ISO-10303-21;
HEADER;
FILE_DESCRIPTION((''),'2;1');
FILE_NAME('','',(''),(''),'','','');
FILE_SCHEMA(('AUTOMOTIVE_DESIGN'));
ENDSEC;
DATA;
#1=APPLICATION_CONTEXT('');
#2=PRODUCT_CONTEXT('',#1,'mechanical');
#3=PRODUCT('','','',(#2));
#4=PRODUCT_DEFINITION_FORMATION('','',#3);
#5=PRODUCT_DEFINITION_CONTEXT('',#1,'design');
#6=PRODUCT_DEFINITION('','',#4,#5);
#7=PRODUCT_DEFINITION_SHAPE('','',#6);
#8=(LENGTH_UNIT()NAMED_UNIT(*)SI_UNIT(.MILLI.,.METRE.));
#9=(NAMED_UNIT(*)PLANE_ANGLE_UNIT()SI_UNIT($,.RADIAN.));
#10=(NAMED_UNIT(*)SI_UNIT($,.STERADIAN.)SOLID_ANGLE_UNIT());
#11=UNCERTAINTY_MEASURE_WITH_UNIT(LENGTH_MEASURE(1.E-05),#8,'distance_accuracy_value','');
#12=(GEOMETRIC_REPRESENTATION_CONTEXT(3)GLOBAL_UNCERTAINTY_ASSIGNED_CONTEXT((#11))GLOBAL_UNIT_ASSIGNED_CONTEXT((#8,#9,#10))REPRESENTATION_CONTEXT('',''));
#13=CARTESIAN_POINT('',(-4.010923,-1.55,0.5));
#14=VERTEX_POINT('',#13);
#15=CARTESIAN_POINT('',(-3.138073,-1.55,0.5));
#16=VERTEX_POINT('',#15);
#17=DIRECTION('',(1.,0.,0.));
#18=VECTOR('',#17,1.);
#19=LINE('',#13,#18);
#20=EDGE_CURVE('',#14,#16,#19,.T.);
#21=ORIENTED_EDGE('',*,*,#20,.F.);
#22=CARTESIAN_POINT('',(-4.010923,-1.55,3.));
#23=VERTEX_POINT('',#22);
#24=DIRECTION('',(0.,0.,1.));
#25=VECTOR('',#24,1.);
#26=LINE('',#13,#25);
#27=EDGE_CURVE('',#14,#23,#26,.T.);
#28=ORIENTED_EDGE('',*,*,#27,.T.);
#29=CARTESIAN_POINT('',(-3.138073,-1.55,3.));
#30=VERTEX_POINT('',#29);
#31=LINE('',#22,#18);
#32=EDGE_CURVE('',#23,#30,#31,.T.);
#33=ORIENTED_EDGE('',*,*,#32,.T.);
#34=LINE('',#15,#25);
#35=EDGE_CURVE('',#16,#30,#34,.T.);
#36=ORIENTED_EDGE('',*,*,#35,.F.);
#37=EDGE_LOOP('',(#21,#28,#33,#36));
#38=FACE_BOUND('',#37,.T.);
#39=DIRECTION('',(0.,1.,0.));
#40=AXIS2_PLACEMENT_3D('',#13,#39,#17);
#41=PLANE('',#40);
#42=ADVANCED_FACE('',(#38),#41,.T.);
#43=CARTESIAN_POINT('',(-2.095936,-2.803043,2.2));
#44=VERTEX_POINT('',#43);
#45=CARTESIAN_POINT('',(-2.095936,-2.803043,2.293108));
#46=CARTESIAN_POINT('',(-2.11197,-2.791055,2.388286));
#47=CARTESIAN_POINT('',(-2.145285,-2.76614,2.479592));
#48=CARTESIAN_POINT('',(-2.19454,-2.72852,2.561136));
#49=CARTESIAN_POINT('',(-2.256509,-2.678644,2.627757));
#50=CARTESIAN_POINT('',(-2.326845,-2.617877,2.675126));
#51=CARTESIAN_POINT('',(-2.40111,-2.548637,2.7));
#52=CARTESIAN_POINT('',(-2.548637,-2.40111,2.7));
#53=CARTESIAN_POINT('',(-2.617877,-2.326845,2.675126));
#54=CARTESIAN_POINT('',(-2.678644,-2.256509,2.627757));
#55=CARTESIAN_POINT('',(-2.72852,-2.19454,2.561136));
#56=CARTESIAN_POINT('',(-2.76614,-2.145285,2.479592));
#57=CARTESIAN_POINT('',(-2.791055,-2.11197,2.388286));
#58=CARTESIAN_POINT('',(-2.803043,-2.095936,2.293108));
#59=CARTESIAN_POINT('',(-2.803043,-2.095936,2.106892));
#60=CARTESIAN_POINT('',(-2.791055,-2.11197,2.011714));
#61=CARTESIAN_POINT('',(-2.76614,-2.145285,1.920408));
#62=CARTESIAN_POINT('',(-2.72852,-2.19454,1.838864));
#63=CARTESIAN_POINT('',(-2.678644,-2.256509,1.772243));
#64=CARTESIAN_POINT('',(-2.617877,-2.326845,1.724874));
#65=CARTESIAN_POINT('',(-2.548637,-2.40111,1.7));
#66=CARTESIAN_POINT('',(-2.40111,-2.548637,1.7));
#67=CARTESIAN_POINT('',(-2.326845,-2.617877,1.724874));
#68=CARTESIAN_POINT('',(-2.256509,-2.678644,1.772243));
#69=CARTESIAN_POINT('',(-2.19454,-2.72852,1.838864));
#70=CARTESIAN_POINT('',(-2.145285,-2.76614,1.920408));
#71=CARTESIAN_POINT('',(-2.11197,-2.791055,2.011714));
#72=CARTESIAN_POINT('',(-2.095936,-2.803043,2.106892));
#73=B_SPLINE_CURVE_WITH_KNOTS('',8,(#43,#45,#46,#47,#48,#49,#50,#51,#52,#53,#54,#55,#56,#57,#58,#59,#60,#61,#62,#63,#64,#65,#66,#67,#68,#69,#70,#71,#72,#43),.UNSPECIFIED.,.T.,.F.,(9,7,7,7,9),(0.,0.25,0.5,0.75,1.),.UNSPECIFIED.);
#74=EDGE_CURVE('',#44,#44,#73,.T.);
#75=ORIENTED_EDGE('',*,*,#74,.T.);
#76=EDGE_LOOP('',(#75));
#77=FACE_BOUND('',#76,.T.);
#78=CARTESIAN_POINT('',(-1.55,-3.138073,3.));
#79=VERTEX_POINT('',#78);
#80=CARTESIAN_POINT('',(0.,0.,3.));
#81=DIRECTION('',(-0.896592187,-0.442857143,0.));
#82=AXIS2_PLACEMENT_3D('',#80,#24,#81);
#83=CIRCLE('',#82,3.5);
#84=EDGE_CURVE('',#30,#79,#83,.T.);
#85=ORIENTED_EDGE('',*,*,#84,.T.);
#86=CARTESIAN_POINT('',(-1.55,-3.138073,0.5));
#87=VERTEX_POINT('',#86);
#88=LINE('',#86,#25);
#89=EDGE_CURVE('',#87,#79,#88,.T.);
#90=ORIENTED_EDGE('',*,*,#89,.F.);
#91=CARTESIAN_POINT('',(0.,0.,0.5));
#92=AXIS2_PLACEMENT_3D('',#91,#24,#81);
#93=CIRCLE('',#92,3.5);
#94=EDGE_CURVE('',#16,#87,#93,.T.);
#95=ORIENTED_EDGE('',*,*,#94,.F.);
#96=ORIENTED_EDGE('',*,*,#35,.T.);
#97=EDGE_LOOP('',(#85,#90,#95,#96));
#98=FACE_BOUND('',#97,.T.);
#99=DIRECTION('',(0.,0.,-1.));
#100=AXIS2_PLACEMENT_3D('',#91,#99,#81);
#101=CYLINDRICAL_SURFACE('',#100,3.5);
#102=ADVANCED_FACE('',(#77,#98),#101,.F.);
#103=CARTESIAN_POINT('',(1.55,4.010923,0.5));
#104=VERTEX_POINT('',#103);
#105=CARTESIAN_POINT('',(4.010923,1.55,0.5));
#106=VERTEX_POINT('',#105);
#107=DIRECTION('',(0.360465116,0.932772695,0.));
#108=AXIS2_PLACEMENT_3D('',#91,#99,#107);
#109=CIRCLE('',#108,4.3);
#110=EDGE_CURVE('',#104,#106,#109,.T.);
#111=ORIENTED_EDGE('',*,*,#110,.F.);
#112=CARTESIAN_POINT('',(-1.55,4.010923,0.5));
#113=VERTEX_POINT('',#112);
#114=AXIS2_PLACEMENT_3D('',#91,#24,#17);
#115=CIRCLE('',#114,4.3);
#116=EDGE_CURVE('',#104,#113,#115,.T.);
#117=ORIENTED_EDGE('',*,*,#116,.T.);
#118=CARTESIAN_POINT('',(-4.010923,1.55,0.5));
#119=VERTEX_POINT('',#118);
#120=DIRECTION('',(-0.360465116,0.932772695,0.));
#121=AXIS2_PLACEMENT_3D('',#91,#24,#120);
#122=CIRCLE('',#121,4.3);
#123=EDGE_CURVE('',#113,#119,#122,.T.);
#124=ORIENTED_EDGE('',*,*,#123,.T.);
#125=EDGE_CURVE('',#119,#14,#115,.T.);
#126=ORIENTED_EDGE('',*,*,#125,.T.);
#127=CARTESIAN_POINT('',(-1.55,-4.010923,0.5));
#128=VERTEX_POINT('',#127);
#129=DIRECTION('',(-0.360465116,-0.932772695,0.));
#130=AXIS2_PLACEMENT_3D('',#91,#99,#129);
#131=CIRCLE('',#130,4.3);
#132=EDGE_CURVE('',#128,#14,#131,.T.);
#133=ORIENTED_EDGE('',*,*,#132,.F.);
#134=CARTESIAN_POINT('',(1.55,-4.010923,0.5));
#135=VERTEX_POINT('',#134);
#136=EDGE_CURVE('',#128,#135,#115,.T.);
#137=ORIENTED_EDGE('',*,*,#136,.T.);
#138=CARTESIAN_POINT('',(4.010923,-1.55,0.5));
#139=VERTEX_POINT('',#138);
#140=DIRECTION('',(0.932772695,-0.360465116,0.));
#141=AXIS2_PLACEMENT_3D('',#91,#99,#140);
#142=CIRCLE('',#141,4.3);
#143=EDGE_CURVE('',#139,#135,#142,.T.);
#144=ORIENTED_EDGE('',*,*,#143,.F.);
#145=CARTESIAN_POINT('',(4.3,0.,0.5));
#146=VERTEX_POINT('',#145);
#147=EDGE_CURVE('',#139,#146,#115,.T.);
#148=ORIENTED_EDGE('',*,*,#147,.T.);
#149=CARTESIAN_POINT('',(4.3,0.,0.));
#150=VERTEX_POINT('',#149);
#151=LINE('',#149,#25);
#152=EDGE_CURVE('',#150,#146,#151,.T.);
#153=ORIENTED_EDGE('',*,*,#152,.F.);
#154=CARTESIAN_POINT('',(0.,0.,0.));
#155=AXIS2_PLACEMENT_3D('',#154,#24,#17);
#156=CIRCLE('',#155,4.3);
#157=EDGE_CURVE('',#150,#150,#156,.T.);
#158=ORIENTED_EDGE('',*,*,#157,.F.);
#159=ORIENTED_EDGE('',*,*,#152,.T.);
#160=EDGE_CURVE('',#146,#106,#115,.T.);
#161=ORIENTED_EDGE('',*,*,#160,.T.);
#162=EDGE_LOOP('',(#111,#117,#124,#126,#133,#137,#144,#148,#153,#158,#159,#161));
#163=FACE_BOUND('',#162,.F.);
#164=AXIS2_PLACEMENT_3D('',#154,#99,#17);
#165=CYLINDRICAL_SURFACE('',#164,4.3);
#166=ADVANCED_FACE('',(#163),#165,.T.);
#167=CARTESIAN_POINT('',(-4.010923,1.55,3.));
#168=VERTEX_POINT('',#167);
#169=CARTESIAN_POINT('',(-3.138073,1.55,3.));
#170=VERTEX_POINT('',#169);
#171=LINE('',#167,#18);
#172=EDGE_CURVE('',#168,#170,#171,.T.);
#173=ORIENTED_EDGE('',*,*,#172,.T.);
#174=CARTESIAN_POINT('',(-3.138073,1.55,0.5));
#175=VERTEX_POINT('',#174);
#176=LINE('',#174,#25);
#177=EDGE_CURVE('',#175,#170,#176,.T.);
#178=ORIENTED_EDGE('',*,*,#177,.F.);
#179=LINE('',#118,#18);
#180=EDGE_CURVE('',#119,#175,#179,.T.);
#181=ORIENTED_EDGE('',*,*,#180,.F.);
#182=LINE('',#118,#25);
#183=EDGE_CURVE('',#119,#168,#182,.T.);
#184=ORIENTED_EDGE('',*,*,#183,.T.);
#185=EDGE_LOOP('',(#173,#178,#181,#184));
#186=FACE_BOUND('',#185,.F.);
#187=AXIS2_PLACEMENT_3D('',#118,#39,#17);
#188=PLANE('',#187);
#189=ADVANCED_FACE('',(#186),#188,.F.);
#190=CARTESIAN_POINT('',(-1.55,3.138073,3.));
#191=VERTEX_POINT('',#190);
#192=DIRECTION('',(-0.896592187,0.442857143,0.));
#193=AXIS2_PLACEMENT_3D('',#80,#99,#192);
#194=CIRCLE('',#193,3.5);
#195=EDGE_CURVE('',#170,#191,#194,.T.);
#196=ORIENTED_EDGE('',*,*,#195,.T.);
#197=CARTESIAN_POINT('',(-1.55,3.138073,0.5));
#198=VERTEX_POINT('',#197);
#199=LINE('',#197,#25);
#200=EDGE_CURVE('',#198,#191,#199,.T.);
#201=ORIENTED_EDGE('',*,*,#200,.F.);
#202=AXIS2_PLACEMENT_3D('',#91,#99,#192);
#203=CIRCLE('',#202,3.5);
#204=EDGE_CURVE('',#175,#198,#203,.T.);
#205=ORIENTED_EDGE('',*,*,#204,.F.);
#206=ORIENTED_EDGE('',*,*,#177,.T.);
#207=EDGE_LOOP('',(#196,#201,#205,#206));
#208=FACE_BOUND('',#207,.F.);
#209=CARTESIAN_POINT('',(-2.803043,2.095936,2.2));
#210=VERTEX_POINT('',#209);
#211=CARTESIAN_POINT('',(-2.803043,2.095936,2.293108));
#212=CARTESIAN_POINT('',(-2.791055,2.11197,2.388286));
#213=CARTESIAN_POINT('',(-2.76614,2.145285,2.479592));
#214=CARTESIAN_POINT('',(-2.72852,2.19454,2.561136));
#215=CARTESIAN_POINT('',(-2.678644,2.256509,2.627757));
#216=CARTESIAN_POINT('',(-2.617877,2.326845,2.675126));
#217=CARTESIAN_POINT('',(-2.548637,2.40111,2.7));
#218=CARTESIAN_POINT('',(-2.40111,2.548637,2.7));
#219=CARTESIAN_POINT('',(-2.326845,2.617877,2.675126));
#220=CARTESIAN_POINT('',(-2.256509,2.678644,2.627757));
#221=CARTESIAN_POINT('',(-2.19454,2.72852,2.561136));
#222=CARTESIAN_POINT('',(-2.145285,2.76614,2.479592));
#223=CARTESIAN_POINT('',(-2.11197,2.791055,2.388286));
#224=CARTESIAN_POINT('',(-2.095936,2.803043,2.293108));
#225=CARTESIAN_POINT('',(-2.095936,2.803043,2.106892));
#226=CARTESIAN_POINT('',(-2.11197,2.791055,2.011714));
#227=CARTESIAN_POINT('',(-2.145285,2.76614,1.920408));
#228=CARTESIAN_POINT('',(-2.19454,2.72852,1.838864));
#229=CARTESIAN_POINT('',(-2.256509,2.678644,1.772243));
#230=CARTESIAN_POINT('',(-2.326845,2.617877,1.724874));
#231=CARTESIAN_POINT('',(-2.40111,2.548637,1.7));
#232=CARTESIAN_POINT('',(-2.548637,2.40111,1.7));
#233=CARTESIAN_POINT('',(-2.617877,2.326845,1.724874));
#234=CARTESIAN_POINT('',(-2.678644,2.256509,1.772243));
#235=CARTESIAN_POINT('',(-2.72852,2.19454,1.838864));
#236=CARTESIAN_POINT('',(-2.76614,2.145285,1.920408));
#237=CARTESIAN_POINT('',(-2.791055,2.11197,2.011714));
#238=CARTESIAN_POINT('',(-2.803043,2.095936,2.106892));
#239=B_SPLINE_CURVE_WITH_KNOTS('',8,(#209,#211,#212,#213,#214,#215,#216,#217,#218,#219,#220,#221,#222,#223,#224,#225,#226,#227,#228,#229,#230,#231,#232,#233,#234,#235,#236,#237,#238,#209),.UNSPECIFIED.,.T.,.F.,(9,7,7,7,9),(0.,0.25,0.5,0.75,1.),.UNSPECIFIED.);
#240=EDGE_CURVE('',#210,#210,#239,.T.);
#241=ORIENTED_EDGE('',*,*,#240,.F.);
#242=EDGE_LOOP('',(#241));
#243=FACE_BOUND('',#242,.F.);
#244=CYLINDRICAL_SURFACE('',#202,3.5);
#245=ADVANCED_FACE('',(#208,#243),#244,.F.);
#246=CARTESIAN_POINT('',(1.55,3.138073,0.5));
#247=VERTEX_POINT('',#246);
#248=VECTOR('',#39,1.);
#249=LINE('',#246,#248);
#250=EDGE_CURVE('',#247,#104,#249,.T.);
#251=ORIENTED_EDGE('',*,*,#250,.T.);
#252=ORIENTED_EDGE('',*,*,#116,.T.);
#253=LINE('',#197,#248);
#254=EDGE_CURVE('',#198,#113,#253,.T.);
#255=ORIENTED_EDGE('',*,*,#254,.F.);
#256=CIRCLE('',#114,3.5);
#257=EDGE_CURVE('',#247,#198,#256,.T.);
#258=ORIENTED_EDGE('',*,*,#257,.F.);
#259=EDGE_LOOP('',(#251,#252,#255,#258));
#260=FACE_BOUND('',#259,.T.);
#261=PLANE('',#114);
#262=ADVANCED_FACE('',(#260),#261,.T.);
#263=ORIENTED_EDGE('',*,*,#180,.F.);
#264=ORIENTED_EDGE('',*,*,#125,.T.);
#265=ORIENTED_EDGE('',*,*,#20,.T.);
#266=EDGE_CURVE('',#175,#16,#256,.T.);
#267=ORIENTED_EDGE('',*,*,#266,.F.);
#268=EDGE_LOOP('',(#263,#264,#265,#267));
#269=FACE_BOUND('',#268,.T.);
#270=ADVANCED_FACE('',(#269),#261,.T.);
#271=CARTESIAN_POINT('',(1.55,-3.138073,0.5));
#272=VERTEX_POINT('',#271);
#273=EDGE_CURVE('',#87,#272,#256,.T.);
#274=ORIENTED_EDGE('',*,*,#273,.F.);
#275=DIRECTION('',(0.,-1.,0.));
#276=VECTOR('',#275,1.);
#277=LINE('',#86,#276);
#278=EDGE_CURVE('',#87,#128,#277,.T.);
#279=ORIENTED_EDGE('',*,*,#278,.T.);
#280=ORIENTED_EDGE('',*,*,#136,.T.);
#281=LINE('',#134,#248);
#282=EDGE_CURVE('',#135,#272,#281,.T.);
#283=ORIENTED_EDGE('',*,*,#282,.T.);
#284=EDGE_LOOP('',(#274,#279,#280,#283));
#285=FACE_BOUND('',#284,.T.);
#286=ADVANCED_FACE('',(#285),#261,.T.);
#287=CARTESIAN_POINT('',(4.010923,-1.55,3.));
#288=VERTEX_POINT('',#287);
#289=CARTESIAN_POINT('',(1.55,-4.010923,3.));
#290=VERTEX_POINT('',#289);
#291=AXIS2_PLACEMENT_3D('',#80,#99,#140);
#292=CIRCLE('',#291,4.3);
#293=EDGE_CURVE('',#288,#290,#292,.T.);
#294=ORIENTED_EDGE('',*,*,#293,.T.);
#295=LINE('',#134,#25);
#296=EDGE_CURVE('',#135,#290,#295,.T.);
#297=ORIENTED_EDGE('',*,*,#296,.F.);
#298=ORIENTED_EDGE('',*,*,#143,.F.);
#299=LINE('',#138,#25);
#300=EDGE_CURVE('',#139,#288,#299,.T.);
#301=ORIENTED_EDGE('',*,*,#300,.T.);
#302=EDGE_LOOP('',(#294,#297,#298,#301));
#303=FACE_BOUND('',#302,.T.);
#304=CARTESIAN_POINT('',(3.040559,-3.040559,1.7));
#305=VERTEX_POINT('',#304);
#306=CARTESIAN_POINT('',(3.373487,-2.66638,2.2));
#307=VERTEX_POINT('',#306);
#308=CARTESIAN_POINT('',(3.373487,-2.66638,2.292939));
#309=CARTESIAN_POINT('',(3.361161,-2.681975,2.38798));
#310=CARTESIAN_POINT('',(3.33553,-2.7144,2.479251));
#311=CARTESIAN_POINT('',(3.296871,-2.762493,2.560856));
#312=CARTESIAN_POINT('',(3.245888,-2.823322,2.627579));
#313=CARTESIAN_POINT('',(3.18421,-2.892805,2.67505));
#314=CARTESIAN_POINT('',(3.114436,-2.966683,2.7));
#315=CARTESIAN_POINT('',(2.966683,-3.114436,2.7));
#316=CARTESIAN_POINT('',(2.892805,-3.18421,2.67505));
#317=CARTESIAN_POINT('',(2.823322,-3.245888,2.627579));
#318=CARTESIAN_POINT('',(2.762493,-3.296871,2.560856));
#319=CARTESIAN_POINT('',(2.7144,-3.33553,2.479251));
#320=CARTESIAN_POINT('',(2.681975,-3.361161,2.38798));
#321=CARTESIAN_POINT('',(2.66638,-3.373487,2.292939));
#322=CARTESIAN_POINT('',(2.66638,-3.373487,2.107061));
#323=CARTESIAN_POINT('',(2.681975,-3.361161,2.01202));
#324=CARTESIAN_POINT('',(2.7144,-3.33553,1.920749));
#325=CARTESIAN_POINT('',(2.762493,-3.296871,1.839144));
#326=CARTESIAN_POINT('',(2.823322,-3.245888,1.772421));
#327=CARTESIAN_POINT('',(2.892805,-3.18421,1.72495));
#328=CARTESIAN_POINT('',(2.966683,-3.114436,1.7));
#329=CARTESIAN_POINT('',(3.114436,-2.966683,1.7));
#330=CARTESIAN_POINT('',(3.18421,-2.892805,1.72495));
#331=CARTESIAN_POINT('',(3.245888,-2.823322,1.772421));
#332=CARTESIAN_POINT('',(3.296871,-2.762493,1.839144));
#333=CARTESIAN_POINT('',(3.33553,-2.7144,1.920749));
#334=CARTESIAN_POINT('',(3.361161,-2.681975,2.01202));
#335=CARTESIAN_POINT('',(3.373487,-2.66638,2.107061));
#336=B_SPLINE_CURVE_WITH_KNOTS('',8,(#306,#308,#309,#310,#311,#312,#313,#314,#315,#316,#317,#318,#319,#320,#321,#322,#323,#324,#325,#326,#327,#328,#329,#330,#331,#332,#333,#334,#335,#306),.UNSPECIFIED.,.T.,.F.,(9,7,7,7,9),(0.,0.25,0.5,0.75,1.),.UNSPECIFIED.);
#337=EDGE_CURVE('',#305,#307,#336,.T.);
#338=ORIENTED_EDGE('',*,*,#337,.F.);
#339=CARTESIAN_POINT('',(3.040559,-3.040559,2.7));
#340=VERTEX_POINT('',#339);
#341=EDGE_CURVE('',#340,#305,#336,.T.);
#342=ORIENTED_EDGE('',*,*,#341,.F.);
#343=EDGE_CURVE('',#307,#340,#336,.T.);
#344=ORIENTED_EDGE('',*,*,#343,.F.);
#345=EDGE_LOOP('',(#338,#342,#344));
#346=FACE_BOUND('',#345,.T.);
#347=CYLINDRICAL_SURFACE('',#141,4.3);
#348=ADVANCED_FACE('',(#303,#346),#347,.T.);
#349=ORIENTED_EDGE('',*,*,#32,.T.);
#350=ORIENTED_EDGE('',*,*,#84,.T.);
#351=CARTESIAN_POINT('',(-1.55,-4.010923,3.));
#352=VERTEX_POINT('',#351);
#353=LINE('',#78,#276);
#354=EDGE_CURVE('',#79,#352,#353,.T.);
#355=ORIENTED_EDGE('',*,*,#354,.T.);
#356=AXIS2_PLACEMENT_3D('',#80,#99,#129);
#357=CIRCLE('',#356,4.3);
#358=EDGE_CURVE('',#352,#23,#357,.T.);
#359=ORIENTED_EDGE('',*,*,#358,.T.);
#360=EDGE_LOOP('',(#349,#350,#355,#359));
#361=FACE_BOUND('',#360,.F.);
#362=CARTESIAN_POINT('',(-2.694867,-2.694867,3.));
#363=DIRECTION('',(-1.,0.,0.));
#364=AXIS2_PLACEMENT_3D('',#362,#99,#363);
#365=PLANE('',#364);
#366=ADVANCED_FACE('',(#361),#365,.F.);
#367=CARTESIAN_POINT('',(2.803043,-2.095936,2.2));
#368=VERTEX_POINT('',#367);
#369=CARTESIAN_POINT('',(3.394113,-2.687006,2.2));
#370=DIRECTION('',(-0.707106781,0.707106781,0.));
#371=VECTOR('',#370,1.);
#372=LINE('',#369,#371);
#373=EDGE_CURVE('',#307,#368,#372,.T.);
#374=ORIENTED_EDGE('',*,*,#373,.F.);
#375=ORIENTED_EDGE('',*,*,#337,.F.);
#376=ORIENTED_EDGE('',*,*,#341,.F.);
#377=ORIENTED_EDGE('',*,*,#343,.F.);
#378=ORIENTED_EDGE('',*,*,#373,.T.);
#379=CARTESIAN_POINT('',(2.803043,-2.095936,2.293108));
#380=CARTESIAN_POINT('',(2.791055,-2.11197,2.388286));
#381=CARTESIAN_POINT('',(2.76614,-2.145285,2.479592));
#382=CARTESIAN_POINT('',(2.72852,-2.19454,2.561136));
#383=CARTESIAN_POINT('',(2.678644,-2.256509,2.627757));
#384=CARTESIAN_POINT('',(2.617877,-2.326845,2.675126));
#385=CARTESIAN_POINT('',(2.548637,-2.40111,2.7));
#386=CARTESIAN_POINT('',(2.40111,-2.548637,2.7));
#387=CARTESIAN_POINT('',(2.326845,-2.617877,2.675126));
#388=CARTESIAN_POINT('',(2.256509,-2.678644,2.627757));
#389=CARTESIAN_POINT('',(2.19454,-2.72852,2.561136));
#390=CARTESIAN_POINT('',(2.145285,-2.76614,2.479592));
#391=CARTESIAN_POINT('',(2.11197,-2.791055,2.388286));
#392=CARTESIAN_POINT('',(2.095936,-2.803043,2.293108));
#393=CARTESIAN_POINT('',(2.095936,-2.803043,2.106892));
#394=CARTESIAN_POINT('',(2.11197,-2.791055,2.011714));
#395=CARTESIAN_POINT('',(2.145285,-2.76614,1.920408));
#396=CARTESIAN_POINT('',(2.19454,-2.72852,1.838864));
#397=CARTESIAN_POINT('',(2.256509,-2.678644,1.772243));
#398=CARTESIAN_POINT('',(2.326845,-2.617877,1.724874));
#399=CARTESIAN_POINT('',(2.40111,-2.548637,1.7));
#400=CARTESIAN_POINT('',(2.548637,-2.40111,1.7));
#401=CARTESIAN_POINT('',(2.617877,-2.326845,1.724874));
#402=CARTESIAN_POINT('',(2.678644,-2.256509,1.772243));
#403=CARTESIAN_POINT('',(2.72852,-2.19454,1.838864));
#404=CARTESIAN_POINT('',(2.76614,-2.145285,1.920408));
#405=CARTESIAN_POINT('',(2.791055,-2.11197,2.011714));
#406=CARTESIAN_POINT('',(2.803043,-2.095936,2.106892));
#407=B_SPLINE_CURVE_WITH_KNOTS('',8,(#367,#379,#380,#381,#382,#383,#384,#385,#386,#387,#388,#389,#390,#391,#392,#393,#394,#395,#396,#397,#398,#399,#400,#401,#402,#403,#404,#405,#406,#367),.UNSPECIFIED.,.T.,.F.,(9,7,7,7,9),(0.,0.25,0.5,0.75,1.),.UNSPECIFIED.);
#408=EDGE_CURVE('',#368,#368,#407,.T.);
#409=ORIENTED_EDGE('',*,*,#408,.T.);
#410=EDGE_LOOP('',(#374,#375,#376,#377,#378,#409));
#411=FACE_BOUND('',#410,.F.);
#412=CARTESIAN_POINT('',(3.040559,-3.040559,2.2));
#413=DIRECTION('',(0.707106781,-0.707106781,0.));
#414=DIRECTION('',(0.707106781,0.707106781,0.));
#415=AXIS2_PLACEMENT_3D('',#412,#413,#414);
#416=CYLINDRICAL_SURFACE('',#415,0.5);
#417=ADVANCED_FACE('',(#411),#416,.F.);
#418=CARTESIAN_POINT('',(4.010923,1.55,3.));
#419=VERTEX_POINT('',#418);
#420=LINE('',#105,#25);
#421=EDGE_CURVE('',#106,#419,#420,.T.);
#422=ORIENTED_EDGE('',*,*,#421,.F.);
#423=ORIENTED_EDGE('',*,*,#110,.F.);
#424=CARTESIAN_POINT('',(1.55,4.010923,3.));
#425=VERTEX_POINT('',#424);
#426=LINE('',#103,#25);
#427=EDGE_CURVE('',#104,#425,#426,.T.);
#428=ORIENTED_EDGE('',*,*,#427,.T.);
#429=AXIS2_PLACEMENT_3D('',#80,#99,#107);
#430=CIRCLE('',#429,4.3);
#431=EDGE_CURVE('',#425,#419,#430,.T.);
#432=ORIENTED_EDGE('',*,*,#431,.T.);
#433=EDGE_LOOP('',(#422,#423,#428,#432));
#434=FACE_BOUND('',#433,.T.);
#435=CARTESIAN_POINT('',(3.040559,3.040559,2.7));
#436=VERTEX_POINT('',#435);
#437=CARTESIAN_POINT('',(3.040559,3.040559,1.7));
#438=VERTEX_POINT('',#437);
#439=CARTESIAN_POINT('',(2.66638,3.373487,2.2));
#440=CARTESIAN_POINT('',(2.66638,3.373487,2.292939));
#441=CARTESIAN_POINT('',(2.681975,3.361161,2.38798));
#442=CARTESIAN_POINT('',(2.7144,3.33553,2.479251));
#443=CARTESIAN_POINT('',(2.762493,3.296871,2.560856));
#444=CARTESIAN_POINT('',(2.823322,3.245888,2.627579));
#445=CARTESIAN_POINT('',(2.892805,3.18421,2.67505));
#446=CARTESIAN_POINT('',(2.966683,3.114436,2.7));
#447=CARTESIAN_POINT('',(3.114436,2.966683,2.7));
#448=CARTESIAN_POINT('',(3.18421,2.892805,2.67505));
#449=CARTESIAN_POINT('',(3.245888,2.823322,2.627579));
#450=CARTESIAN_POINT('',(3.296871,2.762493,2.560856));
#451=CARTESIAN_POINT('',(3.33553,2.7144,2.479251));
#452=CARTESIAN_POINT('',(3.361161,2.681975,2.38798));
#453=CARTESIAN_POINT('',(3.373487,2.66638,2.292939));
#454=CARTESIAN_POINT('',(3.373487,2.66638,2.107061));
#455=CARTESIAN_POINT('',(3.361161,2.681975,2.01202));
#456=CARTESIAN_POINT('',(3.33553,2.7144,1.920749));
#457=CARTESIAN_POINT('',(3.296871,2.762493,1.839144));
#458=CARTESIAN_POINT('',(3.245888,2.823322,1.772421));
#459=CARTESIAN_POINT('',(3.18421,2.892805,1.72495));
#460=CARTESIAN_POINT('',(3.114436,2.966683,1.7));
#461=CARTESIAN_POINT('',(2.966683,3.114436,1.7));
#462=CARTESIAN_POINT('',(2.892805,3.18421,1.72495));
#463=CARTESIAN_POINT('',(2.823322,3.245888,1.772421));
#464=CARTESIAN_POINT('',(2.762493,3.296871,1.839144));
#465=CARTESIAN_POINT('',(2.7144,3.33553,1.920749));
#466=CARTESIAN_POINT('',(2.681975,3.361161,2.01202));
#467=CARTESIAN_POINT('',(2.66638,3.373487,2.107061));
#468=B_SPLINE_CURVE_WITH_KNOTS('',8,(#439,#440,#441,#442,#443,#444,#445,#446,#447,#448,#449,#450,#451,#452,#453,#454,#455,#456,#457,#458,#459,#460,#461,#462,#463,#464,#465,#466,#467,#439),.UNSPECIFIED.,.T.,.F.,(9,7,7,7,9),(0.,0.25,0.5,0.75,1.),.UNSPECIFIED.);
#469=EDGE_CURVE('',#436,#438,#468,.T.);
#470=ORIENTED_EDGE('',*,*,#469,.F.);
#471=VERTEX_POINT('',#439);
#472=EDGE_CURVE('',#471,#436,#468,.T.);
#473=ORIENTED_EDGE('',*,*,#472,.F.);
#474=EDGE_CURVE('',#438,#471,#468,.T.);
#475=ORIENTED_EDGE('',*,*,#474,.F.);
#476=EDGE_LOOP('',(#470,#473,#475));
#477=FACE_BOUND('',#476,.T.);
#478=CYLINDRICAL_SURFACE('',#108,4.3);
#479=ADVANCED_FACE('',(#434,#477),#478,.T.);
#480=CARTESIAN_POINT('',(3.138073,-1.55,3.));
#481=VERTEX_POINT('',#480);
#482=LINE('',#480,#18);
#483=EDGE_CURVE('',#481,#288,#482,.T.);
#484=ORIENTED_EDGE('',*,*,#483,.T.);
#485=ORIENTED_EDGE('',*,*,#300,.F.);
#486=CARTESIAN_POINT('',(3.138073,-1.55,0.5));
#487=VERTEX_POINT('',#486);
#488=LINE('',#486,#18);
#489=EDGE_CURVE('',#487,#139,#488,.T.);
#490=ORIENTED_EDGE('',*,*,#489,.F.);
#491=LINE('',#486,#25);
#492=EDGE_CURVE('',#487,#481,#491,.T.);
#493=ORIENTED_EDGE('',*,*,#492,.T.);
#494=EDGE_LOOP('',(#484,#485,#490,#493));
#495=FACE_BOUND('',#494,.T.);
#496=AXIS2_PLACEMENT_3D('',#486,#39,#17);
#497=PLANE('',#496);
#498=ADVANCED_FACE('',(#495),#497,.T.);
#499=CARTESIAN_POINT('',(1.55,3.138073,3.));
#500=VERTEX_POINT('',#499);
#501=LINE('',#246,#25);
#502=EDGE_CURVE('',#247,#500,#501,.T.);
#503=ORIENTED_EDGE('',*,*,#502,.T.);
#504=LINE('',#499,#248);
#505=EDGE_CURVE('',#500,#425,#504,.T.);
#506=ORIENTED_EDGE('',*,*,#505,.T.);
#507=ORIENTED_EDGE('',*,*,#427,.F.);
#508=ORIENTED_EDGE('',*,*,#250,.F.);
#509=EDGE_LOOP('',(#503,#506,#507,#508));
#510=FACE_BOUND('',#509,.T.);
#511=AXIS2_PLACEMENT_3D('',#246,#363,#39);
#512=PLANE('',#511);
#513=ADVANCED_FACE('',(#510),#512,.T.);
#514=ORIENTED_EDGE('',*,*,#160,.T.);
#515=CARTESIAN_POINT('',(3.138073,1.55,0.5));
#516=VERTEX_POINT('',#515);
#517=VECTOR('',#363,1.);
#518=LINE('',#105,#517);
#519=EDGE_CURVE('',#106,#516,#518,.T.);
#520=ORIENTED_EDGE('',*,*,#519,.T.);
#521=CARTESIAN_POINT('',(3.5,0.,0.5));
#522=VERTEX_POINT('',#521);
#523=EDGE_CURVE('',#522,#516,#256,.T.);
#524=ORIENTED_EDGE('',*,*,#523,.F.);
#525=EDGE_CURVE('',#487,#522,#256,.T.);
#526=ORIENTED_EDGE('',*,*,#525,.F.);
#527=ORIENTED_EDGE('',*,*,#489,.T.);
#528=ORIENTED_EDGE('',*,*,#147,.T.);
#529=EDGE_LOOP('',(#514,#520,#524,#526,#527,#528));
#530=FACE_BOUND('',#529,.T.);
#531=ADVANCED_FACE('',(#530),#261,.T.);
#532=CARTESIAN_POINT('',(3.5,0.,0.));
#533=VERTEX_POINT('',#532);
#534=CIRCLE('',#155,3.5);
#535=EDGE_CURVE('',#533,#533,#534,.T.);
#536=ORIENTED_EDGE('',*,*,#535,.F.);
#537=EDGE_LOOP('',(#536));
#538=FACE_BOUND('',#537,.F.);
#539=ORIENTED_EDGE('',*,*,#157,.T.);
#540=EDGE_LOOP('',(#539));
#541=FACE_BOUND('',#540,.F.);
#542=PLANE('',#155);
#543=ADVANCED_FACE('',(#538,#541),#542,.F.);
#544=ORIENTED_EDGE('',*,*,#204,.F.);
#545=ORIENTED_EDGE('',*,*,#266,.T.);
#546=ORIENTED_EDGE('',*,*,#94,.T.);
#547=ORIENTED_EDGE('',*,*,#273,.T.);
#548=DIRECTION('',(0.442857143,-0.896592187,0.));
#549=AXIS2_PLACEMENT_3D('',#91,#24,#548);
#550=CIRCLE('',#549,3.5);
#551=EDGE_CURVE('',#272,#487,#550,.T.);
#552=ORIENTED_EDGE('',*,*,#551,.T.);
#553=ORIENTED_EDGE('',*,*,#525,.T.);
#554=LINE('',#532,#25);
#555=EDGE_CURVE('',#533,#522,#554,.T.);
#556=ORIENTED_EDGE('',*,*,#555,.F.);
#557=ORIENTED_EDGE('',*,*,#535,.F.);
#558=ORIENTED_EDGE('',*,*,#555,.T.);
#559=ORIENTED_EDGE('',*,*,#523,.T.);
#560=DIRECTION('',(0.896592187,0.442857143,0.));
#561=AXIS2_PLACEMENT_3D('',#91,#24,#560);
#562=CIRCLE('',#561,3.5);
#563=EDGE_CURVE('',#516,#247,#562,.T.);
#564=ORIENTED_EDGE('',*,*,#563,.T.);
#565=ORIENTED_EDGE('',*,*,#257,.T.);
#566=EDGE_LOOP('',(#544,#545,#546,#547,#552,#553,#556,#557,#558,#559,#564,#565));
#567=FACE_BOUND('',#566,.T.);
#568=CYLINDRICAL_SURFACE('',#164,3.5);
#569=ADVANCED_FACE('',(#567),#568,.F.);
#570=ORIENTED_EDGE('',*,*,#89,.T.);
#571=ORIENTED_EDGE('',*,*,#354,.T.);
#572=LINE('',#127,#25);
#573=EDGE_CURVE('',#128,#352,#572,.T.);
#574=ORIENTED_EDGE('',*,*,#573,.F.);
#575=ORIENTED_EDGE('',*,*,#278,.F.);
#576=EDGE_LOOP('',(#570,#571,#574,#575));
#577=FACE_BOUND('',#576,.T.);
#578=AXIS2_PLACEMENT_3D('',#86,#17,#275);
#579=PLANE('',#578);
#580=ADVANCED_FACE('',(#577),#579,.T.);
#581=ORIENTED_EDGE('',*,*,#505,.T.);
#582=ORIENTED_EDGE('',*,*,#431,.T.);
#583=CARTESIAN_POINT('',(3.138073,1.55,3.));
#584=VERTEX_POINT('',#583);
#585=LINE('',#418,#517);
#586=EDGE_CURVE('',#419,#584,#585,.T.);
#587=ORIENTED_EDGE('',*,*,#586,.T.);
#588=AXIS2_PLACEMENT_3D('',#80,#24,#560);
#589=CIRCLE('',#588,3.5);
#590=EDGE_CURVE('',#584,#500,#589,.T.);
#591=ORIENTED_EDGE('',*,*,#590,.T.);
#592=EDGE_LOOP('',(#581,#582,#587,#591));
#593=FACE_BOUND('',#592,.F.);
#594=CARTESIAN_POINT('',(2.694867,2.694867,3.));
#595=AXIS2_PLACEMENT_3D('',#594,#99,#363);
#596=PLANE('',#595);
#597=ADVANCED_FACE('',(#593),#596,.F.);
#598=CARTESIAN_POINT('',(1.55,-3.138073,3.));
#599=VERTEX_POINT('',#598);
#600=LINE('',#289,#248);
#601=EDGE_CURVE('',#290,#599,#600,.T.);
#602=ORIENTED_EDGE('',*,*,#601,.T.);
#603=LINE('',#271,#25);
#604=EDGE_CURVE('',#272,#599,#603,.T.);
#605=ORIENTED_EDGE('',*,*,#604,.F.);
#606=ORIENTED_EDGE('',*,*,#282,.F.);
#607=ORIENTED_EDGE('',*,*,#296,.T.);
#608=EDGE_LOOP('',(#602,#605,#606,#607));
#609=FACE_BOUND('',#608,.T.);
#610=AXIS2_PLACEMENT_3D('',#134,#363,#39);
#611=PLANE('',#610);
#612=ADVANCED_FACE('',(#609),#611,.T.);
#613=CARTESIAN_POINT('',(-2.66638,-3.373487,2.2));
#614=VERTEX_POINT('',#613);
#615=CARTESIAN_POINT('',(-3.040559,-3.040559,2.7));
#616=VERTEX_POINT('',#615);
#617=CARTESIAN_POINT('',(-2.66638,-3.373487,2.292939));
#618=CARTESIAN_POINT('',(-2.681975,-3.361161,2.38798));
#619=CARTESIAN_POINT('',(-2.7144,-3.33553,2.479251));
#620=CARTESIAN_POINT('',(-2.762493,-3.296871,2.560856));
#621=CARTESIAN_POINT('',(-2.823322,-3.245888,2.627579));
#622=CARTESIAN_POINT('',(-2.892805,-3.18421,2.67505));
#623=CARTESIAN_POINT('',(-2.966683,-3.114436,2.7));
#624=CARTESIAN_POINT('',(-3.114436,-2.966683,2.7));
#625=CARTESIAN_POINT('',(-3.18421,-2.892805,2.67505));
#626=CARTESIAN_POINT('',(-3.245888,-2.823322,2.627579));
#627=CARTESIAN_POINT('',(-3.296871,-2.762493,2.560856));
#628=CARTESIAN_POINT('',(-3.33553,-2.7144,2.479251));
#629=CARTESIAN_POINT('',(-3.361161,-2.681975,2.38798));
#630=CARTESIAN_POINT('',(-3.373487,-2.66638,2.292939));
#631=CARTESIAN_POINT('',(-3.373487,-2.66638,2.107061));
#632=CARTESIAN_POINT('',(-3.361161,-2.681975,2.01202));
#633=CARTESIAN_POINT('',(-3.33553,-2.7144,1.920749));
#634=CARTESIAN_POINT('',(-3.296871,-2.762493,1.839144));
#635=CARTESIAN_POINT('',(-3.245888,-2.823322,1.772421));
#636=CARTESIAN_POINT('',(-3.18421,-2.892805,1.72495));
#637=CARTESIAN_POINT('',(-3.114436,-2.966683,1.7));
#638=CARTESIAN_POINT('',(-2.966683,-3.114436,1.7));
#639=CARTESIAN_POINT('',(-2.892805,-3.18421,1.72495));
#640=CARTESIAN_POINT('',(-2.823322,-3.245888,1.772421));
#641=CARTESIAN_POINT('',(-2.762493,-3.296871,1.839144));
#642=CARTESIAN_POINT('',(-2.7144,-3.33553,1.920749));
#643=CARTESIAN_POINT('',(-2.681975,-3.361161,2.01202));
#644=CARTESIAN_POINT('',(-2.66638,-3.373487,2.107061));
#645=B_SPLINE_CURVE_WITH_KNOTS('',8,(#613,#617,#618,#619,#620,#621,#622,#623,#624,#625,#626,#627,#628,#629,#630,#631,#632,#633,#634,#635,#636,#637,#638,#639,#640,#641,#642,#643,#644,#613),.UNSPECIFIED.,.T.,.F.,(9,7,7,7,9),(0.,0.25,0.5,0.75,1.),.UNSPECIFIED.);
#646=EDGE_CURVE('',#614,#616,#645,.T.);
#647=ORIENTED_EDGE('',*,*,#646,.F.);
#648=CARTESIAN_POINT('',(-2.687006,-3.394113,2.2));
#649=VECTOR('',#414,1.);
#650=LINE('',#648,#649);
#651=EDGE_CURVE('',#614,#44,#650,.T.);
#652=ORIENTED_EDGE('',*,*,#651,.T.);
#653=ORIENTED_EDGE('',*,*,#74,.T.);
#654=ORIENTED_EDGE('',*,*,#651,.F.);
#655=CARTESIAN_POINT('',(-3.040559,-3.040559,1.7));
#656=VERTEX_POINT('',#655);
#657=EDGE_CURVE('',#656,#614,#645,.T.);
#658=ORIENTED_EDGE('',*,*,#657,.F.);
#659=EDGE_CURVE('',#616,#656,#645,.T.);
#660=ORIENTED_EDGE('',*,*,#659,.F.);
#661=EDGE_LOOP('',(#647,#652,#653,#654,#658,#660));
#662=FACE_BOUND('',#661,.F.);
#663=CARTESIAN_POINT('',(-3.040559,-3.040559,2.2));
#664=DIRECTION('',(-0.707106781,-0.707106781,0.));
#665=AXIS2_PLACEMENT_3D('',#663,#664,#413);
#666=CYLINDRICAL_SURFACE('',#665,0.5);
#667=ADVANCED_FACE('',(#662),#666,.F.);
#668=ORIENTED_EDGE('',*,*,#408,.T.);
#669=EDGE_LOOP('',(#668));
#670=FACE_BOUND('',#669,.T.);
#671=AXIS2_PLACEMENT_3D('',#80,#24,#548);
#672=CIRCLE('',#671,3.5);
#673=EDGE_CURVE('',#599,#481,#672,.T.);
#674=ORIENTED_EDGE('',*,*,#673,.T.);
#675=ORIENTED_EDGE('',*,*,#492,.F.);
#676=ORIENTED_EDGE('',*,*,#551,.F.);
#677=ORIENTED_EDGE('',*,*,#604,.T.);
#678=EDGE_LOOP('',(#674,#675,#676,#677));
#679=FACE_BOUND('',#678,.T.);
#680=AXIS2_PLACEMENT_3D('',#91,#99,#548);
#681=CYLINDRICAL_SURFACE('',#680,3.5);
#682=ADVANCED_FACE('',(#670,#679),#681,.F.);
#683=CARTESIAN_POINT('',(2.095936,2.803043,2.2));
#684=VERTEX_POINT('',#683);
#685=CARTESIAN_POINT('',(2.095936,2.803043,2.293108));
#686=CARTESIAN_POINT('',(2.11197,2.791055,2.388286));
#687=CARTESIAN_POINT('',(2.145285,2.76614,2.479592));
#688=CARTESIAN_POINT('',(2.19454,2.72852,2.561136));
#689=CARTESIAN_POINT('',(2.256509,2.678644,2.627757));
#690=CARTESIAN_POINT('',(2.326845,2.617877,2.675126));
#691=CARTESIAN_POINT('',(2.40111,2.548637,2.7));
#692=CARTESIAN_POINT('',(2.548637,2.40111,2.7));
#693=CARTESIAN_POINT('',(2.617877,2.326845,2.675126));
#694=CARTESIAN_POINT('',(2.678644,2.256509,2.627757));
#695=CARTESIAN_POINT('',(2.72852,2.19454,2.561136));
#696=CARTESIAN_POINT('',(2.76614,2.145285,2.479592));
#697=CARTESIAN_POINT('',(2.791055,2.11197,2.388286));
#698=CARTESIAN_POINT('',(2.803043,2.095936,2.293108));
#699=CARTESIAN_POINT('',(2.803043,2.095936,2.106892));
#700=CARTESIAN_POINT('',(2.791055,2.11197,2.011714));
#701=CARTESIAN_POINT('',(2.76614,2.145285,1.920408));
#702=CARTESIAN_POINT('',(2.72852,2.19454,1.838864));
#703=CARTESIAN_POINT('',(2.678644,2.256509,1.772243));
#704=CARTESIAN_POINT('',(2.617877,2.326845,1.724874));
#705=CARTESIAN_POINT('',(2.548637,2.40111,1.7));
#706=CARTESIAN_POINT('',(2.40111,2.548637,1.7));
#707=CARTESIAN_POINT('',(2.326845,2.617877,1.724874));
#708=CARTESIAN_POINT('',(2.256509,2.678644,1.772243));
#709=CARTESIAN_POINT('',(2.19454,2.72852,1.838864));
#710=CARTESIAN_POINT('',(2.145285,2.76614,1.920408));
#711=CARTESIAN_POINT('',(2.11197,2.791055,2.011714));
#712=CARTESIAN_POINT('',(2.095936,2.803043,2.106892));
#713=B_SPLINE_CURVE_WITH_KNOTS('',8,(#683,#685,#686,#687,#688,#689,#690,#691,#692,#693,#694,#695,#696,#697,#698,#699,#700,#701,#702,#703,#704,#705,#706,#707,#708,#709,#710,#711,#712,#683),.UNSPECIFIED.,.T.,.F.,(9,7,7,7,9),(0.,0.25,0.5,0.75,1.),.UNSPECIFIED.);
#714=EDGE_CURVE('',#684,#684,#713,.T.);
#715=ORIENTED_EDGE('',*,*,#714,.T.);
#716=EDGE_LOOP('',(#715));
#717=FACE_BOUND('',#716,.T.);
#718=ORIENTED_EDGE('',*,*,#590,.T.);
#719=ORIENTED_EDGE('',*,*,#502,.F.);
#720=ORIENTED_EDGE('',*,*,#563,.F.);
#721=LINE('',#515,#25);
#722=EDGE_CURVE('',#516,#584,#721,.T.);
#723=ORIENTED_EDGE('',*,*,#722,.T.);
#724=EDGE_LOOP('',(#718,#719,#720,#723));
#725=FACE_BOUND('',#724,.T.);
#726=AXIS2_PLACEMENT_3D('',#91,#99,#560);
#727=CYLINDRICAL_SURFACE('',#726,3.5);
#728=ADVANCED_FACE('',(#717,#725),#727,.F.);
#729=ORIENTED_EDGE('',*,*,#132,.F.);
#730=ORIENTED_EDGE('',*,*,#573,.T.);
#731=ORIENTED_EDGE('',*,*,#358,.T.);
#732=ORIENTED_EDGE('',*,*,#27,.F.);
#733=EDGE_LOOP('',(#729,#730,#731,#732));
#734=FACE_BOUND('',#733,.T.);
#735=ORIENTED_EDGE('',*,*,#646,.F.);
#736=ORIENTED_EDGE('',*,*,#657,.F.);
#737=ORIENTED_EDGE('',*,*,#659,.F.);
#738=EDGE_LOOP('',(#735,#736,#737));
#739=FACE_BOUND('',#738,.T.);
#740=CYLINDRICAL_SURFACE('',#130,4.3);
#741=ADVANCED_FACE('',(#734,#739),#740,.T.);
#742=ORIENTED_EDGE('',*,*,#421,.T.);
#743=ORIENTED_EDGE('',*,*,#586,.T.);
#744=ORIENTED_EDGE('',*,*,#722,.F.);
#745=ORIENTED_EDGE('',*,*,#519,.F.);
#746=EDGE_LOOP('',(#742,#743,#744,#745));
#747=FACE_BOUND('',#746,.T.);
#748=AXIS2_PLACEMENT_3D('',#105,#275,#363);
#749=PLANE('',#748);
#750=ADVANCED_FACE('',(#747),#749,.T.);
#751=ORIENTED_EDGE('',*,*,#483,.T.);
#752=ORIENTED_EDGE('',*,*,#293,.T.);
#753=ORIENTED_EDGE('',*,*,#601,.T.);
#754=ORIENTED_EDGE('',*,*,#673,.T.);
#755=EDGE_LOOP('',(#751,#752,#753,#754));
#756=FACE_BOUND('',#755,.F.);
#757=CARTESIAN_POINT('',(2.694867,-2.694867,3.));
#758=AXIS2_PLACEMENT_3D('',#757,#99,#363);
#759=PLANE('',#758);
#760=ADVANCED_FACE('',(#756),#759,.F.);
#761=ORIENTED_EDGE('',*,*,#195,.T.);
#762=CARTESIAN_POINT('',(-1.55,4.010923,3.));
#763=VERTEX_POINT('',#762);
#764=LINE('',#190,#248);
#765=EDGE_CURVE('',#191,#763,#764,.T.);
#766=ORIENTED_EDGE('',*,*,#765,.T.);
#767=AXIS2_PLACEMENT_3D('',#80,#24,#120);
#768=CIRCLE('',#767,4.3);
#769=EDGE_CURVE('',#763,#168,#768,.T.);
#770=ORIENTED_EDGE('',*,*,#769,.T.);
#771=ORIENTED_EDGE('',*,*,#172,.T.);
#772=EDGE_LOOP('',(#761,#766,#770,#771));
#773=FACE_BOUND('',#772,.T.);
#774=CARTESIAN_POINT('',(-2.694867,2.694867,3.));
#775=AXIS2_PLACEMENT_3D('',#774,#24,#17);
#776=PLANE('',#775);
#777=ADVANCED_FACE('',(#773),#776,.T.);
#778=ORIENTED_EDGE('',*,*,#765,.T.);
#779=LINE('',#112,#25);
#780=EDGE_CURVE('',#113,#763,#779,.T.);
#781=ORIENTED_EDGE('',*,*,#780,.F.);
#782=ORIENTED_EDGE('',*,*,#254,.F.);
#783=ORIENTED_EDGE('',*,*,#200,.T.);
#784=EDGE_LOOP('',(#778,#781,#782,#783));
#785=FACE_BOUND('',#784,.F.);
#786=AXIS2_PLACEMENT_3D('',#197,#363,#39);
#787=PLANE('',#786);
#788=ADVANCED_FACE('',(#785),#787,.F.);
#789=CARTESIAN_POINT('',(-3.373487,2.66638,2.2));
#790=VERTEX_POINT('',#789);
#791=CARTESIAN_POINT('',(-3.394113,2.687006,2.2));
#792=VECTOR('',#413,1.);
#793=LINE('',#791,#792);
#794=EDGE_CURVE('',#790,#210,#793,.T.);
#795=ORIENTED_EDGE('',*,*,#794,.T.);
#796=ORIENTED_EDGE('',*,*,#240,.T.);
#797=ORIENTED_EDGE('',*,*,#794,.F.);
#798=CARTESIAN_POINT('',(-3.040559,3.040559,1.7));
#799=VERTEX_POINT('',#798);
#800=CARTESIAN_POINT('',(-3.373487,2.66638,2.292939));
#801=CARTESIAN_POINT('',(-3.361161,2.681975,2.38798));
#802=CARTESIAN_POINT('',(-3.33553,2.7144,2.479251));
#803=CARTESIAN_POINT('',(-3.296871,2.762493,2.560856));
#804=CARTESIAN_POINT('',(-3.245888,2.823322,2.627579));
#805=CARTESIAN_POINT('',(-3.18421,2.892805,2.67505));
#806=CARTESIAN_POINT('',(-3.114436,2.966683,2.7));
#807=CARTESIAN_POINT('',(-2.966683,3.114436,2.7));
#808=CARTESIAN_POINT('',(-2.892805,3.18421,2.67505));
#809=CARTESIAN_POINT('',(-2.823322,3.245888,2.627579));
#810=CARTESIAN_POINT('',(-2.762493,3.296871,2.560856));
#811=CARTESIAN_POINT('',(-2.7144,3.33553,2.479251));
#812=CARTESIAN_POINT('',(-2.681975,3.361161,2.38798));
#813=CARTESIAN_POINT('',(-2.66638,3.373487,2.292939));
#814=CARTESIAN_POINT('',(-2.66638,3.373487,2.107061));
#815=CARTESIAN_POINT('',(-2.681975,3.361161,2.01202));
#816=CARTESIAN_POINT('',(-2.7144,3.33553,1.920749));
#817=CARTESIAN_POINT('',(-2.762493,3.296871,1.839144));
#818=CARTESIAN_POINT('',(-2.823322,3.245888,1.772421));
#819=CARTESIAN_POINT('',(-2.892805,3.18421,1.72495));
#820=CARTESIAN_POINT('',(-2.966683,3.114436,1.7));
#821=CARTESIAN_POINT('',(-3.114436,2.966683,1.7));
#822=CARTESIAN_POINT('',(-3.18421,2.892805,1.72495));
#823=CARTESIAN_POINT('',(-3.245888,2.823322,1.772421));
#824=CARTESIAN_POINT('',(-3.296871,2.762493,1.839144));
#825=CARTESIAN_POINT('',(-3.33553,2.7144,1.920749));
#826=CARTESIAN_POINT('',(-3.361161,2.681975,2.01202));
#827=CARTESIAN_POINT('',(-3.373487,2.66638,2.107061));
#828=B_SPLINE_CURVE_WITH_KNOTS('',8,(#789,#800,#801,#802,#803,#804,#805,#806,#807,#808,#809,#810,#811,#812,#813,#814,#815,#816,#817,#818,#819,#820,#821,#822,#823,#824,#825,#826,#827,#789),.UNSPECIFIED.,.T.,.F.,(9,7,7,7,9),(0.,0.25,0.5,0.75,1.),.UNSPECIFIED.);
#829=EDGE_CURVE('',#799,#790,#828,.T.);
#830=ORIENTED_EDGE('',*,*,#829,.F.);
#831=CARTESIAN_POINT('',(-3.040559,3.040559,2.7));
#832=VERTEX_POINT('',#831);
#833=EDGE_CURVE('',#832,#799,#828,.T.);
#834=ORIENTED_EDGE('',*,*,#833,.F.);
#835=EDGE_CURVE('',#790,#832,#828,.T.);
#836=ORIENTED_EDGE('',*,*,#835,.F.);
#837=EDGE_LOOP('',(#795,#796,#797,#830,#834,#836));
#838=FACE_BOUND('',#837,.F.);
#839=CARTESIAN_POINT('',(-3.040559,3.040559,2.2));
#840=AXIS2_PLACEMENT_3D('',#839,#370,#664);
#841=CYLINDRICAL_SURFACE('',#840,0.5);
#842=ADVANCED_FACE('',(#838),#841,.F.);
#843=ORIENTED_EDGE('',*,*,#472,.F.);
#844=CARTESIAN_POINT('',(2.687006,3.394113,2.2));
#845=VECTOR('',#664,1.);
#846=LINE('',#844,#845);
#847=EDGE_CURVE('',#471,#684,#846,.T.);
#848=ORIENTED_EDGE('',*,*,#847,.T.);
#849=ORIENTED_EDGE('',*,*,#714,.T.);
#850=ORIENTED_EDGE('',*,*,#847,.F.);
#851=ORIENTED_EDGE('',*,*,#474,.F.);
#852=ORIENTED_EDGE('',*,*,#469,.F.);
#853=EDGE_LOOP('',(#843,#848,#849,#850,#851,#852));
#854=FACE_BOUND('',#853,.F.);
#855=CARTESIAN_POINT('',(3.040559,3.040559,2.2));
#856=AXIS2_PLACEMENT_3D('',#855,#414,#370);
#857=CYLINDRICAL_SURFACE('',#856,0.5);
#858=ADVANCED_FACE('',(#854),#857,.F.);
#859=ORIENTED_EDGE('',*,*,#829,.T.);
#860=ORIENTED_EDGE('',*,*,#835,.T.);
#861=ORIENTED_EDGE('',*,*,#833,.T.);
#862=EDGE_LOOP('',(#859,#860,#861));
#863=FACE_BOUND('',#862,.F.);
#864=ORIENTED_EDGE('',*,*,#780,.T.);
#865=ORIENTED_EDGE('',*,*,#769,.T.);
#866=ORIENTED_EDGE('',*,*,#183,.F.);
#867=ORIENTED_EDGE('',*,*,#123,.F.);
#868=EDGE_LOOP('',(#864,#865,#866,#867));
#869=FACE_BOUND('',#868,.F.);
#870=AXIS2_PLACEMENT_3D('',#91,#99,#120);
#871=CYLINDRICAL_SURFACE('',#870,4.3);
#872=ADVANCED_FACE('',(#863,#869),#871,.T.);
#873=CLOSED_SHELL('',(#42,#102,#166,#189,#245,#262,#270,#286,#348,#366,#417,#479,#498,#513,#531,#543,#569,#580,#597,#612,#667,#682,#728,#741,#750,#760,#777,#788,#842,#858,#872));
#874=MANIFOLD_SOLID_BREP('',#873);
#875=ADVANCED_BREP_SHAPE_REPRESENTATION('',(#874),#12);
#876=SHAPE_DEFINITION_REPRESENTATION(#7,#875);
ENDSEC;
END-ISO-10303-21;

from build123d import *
from build123d.topology import SkipClean

# Parameters (mm, degrees)
SKETCH1_R           = 4.3
SKETCH1_R_2         = 3.5
BOSS_EXTRUDE1_DEPTH = 0.5
BOSS_EXTRUDE2_DEPTH = 2.5
SKETCH5_R           = 0.5
CUT_EXTRUDE2_DEPTH  = 3
CIRPATTERN1_COUNT   = 4


with BuildPart() as part:
    # Sketch1 → Boss-Extrude1 (new body)
    with BuildSketch(Plane.XY):
        Circle(SKETCH1_R)
        Circle(SKETCH1_R_2, mode=Mode.SUBTRACT)
    extrude(amount=BOSS_EXTRUDE1_DEPTH)

    # Sketch2 → Boss-Extrude2 (add)
    with SkipClean():  # the faces are left unmerged after this step: merging them gives an invalid solid
        with BuildSketch(Plane.XY.offset(0.5)):
            with BuildLine():
                Line((4.010922587, 1.55), (3.138072657, 1.55))
                ThreePointArc((3.138072657, 1.55), (2.474873734, 2.474873734), (1.55, 3.138072657))
                Line((1.55, 3.138072657), (1.55, 4.010922587))
                ThreePointArc((1.55, 4.010922587), (3.040559159, 3.040559159), (4.010922587, 1.55))
            make_face()
            with BuildLine():
                Line((-4.010922587, 1.55), (-3.138072657, 1.55))
                ThreePointArc((-3.138072657, 1.55), (-2.474873734, 2.474873734), (-1.55, 3.138072657))
                Line((-1.55, 3.138072657), (-1.55, 4.010922587))
                ThreePointArc((-1.55, 4.010922587), (-3.040559159, 3.040559159), (-4.010922587, 1.55))
            make_face()
            with BuildLine():
                Line((1.55, -4.010922587), (1.55, -3.138072657))
                ThreePointArc((1.55, -3.138072657), (2.474873734, -2.474873734), (3.138072657, -1.55))
                Line((3.138072657, -1.55), (4.010922587, -1.55))
                ThreePointArc((4.010922587, -1.55), (3.040559159, -3.040559159), (1.55, -4.010922587))
            make_face()
            with BuildLine():
                Line((-4.010922587, -1.55), (-3.138072657, -1.55))
                ThreePointArc((-3.138072657, -1.55), (-2.474873734, -2.474873734), (-1.55, -3.138072657))
                Line((-1.55, -3.138072657), (-1.55, -4.010922587))
                ThreePointArc((-1.55, -4.010922587), (-3.040559159, -3.040559159), (-4.010922587, -1.55))
            make_face()
        extrude(amount=BOSS_EXTRUDE2_DEPTH)

    # Sketch5 → Cut-Extrude2 (cut)
    with SkipClean():  # the faces are left unmerged after this step: merging them gives an invalid solid
        with BuildSketch(Plane(origin=(3.040559159, 3.040559159, 0), x_dir=(0, 0, -1), z_dir=(0.7071067811865499, 0.7071067811865452, 0))):
            with Locations(Location((-2.2, 0, 0), (0, 0, 90))):
                Circle(SKETCH5_R)
        cut_extrude2 = extrude(amount=-CUT_EXTRUDE2_DEPTH, mode=Mode.SUBTRACT)

    # CirPattern1: Cut-Extrude2 ×4 about axis
    with SkipClean():  # the faces are left unmerged after this step: merging them gives an invalid solid
        cirpattern1_axis = Axis((0, 0, 0.5), (0, 0, -1))
        for i in range(1, CIRPATTERN1_COUNT):
            add(cut_extrude2.rotate(cirpattern1_axis, i * 360 / CIRPATTERN1_COUNT), mode=Mode.SUBTRACT)


solid = part.part
